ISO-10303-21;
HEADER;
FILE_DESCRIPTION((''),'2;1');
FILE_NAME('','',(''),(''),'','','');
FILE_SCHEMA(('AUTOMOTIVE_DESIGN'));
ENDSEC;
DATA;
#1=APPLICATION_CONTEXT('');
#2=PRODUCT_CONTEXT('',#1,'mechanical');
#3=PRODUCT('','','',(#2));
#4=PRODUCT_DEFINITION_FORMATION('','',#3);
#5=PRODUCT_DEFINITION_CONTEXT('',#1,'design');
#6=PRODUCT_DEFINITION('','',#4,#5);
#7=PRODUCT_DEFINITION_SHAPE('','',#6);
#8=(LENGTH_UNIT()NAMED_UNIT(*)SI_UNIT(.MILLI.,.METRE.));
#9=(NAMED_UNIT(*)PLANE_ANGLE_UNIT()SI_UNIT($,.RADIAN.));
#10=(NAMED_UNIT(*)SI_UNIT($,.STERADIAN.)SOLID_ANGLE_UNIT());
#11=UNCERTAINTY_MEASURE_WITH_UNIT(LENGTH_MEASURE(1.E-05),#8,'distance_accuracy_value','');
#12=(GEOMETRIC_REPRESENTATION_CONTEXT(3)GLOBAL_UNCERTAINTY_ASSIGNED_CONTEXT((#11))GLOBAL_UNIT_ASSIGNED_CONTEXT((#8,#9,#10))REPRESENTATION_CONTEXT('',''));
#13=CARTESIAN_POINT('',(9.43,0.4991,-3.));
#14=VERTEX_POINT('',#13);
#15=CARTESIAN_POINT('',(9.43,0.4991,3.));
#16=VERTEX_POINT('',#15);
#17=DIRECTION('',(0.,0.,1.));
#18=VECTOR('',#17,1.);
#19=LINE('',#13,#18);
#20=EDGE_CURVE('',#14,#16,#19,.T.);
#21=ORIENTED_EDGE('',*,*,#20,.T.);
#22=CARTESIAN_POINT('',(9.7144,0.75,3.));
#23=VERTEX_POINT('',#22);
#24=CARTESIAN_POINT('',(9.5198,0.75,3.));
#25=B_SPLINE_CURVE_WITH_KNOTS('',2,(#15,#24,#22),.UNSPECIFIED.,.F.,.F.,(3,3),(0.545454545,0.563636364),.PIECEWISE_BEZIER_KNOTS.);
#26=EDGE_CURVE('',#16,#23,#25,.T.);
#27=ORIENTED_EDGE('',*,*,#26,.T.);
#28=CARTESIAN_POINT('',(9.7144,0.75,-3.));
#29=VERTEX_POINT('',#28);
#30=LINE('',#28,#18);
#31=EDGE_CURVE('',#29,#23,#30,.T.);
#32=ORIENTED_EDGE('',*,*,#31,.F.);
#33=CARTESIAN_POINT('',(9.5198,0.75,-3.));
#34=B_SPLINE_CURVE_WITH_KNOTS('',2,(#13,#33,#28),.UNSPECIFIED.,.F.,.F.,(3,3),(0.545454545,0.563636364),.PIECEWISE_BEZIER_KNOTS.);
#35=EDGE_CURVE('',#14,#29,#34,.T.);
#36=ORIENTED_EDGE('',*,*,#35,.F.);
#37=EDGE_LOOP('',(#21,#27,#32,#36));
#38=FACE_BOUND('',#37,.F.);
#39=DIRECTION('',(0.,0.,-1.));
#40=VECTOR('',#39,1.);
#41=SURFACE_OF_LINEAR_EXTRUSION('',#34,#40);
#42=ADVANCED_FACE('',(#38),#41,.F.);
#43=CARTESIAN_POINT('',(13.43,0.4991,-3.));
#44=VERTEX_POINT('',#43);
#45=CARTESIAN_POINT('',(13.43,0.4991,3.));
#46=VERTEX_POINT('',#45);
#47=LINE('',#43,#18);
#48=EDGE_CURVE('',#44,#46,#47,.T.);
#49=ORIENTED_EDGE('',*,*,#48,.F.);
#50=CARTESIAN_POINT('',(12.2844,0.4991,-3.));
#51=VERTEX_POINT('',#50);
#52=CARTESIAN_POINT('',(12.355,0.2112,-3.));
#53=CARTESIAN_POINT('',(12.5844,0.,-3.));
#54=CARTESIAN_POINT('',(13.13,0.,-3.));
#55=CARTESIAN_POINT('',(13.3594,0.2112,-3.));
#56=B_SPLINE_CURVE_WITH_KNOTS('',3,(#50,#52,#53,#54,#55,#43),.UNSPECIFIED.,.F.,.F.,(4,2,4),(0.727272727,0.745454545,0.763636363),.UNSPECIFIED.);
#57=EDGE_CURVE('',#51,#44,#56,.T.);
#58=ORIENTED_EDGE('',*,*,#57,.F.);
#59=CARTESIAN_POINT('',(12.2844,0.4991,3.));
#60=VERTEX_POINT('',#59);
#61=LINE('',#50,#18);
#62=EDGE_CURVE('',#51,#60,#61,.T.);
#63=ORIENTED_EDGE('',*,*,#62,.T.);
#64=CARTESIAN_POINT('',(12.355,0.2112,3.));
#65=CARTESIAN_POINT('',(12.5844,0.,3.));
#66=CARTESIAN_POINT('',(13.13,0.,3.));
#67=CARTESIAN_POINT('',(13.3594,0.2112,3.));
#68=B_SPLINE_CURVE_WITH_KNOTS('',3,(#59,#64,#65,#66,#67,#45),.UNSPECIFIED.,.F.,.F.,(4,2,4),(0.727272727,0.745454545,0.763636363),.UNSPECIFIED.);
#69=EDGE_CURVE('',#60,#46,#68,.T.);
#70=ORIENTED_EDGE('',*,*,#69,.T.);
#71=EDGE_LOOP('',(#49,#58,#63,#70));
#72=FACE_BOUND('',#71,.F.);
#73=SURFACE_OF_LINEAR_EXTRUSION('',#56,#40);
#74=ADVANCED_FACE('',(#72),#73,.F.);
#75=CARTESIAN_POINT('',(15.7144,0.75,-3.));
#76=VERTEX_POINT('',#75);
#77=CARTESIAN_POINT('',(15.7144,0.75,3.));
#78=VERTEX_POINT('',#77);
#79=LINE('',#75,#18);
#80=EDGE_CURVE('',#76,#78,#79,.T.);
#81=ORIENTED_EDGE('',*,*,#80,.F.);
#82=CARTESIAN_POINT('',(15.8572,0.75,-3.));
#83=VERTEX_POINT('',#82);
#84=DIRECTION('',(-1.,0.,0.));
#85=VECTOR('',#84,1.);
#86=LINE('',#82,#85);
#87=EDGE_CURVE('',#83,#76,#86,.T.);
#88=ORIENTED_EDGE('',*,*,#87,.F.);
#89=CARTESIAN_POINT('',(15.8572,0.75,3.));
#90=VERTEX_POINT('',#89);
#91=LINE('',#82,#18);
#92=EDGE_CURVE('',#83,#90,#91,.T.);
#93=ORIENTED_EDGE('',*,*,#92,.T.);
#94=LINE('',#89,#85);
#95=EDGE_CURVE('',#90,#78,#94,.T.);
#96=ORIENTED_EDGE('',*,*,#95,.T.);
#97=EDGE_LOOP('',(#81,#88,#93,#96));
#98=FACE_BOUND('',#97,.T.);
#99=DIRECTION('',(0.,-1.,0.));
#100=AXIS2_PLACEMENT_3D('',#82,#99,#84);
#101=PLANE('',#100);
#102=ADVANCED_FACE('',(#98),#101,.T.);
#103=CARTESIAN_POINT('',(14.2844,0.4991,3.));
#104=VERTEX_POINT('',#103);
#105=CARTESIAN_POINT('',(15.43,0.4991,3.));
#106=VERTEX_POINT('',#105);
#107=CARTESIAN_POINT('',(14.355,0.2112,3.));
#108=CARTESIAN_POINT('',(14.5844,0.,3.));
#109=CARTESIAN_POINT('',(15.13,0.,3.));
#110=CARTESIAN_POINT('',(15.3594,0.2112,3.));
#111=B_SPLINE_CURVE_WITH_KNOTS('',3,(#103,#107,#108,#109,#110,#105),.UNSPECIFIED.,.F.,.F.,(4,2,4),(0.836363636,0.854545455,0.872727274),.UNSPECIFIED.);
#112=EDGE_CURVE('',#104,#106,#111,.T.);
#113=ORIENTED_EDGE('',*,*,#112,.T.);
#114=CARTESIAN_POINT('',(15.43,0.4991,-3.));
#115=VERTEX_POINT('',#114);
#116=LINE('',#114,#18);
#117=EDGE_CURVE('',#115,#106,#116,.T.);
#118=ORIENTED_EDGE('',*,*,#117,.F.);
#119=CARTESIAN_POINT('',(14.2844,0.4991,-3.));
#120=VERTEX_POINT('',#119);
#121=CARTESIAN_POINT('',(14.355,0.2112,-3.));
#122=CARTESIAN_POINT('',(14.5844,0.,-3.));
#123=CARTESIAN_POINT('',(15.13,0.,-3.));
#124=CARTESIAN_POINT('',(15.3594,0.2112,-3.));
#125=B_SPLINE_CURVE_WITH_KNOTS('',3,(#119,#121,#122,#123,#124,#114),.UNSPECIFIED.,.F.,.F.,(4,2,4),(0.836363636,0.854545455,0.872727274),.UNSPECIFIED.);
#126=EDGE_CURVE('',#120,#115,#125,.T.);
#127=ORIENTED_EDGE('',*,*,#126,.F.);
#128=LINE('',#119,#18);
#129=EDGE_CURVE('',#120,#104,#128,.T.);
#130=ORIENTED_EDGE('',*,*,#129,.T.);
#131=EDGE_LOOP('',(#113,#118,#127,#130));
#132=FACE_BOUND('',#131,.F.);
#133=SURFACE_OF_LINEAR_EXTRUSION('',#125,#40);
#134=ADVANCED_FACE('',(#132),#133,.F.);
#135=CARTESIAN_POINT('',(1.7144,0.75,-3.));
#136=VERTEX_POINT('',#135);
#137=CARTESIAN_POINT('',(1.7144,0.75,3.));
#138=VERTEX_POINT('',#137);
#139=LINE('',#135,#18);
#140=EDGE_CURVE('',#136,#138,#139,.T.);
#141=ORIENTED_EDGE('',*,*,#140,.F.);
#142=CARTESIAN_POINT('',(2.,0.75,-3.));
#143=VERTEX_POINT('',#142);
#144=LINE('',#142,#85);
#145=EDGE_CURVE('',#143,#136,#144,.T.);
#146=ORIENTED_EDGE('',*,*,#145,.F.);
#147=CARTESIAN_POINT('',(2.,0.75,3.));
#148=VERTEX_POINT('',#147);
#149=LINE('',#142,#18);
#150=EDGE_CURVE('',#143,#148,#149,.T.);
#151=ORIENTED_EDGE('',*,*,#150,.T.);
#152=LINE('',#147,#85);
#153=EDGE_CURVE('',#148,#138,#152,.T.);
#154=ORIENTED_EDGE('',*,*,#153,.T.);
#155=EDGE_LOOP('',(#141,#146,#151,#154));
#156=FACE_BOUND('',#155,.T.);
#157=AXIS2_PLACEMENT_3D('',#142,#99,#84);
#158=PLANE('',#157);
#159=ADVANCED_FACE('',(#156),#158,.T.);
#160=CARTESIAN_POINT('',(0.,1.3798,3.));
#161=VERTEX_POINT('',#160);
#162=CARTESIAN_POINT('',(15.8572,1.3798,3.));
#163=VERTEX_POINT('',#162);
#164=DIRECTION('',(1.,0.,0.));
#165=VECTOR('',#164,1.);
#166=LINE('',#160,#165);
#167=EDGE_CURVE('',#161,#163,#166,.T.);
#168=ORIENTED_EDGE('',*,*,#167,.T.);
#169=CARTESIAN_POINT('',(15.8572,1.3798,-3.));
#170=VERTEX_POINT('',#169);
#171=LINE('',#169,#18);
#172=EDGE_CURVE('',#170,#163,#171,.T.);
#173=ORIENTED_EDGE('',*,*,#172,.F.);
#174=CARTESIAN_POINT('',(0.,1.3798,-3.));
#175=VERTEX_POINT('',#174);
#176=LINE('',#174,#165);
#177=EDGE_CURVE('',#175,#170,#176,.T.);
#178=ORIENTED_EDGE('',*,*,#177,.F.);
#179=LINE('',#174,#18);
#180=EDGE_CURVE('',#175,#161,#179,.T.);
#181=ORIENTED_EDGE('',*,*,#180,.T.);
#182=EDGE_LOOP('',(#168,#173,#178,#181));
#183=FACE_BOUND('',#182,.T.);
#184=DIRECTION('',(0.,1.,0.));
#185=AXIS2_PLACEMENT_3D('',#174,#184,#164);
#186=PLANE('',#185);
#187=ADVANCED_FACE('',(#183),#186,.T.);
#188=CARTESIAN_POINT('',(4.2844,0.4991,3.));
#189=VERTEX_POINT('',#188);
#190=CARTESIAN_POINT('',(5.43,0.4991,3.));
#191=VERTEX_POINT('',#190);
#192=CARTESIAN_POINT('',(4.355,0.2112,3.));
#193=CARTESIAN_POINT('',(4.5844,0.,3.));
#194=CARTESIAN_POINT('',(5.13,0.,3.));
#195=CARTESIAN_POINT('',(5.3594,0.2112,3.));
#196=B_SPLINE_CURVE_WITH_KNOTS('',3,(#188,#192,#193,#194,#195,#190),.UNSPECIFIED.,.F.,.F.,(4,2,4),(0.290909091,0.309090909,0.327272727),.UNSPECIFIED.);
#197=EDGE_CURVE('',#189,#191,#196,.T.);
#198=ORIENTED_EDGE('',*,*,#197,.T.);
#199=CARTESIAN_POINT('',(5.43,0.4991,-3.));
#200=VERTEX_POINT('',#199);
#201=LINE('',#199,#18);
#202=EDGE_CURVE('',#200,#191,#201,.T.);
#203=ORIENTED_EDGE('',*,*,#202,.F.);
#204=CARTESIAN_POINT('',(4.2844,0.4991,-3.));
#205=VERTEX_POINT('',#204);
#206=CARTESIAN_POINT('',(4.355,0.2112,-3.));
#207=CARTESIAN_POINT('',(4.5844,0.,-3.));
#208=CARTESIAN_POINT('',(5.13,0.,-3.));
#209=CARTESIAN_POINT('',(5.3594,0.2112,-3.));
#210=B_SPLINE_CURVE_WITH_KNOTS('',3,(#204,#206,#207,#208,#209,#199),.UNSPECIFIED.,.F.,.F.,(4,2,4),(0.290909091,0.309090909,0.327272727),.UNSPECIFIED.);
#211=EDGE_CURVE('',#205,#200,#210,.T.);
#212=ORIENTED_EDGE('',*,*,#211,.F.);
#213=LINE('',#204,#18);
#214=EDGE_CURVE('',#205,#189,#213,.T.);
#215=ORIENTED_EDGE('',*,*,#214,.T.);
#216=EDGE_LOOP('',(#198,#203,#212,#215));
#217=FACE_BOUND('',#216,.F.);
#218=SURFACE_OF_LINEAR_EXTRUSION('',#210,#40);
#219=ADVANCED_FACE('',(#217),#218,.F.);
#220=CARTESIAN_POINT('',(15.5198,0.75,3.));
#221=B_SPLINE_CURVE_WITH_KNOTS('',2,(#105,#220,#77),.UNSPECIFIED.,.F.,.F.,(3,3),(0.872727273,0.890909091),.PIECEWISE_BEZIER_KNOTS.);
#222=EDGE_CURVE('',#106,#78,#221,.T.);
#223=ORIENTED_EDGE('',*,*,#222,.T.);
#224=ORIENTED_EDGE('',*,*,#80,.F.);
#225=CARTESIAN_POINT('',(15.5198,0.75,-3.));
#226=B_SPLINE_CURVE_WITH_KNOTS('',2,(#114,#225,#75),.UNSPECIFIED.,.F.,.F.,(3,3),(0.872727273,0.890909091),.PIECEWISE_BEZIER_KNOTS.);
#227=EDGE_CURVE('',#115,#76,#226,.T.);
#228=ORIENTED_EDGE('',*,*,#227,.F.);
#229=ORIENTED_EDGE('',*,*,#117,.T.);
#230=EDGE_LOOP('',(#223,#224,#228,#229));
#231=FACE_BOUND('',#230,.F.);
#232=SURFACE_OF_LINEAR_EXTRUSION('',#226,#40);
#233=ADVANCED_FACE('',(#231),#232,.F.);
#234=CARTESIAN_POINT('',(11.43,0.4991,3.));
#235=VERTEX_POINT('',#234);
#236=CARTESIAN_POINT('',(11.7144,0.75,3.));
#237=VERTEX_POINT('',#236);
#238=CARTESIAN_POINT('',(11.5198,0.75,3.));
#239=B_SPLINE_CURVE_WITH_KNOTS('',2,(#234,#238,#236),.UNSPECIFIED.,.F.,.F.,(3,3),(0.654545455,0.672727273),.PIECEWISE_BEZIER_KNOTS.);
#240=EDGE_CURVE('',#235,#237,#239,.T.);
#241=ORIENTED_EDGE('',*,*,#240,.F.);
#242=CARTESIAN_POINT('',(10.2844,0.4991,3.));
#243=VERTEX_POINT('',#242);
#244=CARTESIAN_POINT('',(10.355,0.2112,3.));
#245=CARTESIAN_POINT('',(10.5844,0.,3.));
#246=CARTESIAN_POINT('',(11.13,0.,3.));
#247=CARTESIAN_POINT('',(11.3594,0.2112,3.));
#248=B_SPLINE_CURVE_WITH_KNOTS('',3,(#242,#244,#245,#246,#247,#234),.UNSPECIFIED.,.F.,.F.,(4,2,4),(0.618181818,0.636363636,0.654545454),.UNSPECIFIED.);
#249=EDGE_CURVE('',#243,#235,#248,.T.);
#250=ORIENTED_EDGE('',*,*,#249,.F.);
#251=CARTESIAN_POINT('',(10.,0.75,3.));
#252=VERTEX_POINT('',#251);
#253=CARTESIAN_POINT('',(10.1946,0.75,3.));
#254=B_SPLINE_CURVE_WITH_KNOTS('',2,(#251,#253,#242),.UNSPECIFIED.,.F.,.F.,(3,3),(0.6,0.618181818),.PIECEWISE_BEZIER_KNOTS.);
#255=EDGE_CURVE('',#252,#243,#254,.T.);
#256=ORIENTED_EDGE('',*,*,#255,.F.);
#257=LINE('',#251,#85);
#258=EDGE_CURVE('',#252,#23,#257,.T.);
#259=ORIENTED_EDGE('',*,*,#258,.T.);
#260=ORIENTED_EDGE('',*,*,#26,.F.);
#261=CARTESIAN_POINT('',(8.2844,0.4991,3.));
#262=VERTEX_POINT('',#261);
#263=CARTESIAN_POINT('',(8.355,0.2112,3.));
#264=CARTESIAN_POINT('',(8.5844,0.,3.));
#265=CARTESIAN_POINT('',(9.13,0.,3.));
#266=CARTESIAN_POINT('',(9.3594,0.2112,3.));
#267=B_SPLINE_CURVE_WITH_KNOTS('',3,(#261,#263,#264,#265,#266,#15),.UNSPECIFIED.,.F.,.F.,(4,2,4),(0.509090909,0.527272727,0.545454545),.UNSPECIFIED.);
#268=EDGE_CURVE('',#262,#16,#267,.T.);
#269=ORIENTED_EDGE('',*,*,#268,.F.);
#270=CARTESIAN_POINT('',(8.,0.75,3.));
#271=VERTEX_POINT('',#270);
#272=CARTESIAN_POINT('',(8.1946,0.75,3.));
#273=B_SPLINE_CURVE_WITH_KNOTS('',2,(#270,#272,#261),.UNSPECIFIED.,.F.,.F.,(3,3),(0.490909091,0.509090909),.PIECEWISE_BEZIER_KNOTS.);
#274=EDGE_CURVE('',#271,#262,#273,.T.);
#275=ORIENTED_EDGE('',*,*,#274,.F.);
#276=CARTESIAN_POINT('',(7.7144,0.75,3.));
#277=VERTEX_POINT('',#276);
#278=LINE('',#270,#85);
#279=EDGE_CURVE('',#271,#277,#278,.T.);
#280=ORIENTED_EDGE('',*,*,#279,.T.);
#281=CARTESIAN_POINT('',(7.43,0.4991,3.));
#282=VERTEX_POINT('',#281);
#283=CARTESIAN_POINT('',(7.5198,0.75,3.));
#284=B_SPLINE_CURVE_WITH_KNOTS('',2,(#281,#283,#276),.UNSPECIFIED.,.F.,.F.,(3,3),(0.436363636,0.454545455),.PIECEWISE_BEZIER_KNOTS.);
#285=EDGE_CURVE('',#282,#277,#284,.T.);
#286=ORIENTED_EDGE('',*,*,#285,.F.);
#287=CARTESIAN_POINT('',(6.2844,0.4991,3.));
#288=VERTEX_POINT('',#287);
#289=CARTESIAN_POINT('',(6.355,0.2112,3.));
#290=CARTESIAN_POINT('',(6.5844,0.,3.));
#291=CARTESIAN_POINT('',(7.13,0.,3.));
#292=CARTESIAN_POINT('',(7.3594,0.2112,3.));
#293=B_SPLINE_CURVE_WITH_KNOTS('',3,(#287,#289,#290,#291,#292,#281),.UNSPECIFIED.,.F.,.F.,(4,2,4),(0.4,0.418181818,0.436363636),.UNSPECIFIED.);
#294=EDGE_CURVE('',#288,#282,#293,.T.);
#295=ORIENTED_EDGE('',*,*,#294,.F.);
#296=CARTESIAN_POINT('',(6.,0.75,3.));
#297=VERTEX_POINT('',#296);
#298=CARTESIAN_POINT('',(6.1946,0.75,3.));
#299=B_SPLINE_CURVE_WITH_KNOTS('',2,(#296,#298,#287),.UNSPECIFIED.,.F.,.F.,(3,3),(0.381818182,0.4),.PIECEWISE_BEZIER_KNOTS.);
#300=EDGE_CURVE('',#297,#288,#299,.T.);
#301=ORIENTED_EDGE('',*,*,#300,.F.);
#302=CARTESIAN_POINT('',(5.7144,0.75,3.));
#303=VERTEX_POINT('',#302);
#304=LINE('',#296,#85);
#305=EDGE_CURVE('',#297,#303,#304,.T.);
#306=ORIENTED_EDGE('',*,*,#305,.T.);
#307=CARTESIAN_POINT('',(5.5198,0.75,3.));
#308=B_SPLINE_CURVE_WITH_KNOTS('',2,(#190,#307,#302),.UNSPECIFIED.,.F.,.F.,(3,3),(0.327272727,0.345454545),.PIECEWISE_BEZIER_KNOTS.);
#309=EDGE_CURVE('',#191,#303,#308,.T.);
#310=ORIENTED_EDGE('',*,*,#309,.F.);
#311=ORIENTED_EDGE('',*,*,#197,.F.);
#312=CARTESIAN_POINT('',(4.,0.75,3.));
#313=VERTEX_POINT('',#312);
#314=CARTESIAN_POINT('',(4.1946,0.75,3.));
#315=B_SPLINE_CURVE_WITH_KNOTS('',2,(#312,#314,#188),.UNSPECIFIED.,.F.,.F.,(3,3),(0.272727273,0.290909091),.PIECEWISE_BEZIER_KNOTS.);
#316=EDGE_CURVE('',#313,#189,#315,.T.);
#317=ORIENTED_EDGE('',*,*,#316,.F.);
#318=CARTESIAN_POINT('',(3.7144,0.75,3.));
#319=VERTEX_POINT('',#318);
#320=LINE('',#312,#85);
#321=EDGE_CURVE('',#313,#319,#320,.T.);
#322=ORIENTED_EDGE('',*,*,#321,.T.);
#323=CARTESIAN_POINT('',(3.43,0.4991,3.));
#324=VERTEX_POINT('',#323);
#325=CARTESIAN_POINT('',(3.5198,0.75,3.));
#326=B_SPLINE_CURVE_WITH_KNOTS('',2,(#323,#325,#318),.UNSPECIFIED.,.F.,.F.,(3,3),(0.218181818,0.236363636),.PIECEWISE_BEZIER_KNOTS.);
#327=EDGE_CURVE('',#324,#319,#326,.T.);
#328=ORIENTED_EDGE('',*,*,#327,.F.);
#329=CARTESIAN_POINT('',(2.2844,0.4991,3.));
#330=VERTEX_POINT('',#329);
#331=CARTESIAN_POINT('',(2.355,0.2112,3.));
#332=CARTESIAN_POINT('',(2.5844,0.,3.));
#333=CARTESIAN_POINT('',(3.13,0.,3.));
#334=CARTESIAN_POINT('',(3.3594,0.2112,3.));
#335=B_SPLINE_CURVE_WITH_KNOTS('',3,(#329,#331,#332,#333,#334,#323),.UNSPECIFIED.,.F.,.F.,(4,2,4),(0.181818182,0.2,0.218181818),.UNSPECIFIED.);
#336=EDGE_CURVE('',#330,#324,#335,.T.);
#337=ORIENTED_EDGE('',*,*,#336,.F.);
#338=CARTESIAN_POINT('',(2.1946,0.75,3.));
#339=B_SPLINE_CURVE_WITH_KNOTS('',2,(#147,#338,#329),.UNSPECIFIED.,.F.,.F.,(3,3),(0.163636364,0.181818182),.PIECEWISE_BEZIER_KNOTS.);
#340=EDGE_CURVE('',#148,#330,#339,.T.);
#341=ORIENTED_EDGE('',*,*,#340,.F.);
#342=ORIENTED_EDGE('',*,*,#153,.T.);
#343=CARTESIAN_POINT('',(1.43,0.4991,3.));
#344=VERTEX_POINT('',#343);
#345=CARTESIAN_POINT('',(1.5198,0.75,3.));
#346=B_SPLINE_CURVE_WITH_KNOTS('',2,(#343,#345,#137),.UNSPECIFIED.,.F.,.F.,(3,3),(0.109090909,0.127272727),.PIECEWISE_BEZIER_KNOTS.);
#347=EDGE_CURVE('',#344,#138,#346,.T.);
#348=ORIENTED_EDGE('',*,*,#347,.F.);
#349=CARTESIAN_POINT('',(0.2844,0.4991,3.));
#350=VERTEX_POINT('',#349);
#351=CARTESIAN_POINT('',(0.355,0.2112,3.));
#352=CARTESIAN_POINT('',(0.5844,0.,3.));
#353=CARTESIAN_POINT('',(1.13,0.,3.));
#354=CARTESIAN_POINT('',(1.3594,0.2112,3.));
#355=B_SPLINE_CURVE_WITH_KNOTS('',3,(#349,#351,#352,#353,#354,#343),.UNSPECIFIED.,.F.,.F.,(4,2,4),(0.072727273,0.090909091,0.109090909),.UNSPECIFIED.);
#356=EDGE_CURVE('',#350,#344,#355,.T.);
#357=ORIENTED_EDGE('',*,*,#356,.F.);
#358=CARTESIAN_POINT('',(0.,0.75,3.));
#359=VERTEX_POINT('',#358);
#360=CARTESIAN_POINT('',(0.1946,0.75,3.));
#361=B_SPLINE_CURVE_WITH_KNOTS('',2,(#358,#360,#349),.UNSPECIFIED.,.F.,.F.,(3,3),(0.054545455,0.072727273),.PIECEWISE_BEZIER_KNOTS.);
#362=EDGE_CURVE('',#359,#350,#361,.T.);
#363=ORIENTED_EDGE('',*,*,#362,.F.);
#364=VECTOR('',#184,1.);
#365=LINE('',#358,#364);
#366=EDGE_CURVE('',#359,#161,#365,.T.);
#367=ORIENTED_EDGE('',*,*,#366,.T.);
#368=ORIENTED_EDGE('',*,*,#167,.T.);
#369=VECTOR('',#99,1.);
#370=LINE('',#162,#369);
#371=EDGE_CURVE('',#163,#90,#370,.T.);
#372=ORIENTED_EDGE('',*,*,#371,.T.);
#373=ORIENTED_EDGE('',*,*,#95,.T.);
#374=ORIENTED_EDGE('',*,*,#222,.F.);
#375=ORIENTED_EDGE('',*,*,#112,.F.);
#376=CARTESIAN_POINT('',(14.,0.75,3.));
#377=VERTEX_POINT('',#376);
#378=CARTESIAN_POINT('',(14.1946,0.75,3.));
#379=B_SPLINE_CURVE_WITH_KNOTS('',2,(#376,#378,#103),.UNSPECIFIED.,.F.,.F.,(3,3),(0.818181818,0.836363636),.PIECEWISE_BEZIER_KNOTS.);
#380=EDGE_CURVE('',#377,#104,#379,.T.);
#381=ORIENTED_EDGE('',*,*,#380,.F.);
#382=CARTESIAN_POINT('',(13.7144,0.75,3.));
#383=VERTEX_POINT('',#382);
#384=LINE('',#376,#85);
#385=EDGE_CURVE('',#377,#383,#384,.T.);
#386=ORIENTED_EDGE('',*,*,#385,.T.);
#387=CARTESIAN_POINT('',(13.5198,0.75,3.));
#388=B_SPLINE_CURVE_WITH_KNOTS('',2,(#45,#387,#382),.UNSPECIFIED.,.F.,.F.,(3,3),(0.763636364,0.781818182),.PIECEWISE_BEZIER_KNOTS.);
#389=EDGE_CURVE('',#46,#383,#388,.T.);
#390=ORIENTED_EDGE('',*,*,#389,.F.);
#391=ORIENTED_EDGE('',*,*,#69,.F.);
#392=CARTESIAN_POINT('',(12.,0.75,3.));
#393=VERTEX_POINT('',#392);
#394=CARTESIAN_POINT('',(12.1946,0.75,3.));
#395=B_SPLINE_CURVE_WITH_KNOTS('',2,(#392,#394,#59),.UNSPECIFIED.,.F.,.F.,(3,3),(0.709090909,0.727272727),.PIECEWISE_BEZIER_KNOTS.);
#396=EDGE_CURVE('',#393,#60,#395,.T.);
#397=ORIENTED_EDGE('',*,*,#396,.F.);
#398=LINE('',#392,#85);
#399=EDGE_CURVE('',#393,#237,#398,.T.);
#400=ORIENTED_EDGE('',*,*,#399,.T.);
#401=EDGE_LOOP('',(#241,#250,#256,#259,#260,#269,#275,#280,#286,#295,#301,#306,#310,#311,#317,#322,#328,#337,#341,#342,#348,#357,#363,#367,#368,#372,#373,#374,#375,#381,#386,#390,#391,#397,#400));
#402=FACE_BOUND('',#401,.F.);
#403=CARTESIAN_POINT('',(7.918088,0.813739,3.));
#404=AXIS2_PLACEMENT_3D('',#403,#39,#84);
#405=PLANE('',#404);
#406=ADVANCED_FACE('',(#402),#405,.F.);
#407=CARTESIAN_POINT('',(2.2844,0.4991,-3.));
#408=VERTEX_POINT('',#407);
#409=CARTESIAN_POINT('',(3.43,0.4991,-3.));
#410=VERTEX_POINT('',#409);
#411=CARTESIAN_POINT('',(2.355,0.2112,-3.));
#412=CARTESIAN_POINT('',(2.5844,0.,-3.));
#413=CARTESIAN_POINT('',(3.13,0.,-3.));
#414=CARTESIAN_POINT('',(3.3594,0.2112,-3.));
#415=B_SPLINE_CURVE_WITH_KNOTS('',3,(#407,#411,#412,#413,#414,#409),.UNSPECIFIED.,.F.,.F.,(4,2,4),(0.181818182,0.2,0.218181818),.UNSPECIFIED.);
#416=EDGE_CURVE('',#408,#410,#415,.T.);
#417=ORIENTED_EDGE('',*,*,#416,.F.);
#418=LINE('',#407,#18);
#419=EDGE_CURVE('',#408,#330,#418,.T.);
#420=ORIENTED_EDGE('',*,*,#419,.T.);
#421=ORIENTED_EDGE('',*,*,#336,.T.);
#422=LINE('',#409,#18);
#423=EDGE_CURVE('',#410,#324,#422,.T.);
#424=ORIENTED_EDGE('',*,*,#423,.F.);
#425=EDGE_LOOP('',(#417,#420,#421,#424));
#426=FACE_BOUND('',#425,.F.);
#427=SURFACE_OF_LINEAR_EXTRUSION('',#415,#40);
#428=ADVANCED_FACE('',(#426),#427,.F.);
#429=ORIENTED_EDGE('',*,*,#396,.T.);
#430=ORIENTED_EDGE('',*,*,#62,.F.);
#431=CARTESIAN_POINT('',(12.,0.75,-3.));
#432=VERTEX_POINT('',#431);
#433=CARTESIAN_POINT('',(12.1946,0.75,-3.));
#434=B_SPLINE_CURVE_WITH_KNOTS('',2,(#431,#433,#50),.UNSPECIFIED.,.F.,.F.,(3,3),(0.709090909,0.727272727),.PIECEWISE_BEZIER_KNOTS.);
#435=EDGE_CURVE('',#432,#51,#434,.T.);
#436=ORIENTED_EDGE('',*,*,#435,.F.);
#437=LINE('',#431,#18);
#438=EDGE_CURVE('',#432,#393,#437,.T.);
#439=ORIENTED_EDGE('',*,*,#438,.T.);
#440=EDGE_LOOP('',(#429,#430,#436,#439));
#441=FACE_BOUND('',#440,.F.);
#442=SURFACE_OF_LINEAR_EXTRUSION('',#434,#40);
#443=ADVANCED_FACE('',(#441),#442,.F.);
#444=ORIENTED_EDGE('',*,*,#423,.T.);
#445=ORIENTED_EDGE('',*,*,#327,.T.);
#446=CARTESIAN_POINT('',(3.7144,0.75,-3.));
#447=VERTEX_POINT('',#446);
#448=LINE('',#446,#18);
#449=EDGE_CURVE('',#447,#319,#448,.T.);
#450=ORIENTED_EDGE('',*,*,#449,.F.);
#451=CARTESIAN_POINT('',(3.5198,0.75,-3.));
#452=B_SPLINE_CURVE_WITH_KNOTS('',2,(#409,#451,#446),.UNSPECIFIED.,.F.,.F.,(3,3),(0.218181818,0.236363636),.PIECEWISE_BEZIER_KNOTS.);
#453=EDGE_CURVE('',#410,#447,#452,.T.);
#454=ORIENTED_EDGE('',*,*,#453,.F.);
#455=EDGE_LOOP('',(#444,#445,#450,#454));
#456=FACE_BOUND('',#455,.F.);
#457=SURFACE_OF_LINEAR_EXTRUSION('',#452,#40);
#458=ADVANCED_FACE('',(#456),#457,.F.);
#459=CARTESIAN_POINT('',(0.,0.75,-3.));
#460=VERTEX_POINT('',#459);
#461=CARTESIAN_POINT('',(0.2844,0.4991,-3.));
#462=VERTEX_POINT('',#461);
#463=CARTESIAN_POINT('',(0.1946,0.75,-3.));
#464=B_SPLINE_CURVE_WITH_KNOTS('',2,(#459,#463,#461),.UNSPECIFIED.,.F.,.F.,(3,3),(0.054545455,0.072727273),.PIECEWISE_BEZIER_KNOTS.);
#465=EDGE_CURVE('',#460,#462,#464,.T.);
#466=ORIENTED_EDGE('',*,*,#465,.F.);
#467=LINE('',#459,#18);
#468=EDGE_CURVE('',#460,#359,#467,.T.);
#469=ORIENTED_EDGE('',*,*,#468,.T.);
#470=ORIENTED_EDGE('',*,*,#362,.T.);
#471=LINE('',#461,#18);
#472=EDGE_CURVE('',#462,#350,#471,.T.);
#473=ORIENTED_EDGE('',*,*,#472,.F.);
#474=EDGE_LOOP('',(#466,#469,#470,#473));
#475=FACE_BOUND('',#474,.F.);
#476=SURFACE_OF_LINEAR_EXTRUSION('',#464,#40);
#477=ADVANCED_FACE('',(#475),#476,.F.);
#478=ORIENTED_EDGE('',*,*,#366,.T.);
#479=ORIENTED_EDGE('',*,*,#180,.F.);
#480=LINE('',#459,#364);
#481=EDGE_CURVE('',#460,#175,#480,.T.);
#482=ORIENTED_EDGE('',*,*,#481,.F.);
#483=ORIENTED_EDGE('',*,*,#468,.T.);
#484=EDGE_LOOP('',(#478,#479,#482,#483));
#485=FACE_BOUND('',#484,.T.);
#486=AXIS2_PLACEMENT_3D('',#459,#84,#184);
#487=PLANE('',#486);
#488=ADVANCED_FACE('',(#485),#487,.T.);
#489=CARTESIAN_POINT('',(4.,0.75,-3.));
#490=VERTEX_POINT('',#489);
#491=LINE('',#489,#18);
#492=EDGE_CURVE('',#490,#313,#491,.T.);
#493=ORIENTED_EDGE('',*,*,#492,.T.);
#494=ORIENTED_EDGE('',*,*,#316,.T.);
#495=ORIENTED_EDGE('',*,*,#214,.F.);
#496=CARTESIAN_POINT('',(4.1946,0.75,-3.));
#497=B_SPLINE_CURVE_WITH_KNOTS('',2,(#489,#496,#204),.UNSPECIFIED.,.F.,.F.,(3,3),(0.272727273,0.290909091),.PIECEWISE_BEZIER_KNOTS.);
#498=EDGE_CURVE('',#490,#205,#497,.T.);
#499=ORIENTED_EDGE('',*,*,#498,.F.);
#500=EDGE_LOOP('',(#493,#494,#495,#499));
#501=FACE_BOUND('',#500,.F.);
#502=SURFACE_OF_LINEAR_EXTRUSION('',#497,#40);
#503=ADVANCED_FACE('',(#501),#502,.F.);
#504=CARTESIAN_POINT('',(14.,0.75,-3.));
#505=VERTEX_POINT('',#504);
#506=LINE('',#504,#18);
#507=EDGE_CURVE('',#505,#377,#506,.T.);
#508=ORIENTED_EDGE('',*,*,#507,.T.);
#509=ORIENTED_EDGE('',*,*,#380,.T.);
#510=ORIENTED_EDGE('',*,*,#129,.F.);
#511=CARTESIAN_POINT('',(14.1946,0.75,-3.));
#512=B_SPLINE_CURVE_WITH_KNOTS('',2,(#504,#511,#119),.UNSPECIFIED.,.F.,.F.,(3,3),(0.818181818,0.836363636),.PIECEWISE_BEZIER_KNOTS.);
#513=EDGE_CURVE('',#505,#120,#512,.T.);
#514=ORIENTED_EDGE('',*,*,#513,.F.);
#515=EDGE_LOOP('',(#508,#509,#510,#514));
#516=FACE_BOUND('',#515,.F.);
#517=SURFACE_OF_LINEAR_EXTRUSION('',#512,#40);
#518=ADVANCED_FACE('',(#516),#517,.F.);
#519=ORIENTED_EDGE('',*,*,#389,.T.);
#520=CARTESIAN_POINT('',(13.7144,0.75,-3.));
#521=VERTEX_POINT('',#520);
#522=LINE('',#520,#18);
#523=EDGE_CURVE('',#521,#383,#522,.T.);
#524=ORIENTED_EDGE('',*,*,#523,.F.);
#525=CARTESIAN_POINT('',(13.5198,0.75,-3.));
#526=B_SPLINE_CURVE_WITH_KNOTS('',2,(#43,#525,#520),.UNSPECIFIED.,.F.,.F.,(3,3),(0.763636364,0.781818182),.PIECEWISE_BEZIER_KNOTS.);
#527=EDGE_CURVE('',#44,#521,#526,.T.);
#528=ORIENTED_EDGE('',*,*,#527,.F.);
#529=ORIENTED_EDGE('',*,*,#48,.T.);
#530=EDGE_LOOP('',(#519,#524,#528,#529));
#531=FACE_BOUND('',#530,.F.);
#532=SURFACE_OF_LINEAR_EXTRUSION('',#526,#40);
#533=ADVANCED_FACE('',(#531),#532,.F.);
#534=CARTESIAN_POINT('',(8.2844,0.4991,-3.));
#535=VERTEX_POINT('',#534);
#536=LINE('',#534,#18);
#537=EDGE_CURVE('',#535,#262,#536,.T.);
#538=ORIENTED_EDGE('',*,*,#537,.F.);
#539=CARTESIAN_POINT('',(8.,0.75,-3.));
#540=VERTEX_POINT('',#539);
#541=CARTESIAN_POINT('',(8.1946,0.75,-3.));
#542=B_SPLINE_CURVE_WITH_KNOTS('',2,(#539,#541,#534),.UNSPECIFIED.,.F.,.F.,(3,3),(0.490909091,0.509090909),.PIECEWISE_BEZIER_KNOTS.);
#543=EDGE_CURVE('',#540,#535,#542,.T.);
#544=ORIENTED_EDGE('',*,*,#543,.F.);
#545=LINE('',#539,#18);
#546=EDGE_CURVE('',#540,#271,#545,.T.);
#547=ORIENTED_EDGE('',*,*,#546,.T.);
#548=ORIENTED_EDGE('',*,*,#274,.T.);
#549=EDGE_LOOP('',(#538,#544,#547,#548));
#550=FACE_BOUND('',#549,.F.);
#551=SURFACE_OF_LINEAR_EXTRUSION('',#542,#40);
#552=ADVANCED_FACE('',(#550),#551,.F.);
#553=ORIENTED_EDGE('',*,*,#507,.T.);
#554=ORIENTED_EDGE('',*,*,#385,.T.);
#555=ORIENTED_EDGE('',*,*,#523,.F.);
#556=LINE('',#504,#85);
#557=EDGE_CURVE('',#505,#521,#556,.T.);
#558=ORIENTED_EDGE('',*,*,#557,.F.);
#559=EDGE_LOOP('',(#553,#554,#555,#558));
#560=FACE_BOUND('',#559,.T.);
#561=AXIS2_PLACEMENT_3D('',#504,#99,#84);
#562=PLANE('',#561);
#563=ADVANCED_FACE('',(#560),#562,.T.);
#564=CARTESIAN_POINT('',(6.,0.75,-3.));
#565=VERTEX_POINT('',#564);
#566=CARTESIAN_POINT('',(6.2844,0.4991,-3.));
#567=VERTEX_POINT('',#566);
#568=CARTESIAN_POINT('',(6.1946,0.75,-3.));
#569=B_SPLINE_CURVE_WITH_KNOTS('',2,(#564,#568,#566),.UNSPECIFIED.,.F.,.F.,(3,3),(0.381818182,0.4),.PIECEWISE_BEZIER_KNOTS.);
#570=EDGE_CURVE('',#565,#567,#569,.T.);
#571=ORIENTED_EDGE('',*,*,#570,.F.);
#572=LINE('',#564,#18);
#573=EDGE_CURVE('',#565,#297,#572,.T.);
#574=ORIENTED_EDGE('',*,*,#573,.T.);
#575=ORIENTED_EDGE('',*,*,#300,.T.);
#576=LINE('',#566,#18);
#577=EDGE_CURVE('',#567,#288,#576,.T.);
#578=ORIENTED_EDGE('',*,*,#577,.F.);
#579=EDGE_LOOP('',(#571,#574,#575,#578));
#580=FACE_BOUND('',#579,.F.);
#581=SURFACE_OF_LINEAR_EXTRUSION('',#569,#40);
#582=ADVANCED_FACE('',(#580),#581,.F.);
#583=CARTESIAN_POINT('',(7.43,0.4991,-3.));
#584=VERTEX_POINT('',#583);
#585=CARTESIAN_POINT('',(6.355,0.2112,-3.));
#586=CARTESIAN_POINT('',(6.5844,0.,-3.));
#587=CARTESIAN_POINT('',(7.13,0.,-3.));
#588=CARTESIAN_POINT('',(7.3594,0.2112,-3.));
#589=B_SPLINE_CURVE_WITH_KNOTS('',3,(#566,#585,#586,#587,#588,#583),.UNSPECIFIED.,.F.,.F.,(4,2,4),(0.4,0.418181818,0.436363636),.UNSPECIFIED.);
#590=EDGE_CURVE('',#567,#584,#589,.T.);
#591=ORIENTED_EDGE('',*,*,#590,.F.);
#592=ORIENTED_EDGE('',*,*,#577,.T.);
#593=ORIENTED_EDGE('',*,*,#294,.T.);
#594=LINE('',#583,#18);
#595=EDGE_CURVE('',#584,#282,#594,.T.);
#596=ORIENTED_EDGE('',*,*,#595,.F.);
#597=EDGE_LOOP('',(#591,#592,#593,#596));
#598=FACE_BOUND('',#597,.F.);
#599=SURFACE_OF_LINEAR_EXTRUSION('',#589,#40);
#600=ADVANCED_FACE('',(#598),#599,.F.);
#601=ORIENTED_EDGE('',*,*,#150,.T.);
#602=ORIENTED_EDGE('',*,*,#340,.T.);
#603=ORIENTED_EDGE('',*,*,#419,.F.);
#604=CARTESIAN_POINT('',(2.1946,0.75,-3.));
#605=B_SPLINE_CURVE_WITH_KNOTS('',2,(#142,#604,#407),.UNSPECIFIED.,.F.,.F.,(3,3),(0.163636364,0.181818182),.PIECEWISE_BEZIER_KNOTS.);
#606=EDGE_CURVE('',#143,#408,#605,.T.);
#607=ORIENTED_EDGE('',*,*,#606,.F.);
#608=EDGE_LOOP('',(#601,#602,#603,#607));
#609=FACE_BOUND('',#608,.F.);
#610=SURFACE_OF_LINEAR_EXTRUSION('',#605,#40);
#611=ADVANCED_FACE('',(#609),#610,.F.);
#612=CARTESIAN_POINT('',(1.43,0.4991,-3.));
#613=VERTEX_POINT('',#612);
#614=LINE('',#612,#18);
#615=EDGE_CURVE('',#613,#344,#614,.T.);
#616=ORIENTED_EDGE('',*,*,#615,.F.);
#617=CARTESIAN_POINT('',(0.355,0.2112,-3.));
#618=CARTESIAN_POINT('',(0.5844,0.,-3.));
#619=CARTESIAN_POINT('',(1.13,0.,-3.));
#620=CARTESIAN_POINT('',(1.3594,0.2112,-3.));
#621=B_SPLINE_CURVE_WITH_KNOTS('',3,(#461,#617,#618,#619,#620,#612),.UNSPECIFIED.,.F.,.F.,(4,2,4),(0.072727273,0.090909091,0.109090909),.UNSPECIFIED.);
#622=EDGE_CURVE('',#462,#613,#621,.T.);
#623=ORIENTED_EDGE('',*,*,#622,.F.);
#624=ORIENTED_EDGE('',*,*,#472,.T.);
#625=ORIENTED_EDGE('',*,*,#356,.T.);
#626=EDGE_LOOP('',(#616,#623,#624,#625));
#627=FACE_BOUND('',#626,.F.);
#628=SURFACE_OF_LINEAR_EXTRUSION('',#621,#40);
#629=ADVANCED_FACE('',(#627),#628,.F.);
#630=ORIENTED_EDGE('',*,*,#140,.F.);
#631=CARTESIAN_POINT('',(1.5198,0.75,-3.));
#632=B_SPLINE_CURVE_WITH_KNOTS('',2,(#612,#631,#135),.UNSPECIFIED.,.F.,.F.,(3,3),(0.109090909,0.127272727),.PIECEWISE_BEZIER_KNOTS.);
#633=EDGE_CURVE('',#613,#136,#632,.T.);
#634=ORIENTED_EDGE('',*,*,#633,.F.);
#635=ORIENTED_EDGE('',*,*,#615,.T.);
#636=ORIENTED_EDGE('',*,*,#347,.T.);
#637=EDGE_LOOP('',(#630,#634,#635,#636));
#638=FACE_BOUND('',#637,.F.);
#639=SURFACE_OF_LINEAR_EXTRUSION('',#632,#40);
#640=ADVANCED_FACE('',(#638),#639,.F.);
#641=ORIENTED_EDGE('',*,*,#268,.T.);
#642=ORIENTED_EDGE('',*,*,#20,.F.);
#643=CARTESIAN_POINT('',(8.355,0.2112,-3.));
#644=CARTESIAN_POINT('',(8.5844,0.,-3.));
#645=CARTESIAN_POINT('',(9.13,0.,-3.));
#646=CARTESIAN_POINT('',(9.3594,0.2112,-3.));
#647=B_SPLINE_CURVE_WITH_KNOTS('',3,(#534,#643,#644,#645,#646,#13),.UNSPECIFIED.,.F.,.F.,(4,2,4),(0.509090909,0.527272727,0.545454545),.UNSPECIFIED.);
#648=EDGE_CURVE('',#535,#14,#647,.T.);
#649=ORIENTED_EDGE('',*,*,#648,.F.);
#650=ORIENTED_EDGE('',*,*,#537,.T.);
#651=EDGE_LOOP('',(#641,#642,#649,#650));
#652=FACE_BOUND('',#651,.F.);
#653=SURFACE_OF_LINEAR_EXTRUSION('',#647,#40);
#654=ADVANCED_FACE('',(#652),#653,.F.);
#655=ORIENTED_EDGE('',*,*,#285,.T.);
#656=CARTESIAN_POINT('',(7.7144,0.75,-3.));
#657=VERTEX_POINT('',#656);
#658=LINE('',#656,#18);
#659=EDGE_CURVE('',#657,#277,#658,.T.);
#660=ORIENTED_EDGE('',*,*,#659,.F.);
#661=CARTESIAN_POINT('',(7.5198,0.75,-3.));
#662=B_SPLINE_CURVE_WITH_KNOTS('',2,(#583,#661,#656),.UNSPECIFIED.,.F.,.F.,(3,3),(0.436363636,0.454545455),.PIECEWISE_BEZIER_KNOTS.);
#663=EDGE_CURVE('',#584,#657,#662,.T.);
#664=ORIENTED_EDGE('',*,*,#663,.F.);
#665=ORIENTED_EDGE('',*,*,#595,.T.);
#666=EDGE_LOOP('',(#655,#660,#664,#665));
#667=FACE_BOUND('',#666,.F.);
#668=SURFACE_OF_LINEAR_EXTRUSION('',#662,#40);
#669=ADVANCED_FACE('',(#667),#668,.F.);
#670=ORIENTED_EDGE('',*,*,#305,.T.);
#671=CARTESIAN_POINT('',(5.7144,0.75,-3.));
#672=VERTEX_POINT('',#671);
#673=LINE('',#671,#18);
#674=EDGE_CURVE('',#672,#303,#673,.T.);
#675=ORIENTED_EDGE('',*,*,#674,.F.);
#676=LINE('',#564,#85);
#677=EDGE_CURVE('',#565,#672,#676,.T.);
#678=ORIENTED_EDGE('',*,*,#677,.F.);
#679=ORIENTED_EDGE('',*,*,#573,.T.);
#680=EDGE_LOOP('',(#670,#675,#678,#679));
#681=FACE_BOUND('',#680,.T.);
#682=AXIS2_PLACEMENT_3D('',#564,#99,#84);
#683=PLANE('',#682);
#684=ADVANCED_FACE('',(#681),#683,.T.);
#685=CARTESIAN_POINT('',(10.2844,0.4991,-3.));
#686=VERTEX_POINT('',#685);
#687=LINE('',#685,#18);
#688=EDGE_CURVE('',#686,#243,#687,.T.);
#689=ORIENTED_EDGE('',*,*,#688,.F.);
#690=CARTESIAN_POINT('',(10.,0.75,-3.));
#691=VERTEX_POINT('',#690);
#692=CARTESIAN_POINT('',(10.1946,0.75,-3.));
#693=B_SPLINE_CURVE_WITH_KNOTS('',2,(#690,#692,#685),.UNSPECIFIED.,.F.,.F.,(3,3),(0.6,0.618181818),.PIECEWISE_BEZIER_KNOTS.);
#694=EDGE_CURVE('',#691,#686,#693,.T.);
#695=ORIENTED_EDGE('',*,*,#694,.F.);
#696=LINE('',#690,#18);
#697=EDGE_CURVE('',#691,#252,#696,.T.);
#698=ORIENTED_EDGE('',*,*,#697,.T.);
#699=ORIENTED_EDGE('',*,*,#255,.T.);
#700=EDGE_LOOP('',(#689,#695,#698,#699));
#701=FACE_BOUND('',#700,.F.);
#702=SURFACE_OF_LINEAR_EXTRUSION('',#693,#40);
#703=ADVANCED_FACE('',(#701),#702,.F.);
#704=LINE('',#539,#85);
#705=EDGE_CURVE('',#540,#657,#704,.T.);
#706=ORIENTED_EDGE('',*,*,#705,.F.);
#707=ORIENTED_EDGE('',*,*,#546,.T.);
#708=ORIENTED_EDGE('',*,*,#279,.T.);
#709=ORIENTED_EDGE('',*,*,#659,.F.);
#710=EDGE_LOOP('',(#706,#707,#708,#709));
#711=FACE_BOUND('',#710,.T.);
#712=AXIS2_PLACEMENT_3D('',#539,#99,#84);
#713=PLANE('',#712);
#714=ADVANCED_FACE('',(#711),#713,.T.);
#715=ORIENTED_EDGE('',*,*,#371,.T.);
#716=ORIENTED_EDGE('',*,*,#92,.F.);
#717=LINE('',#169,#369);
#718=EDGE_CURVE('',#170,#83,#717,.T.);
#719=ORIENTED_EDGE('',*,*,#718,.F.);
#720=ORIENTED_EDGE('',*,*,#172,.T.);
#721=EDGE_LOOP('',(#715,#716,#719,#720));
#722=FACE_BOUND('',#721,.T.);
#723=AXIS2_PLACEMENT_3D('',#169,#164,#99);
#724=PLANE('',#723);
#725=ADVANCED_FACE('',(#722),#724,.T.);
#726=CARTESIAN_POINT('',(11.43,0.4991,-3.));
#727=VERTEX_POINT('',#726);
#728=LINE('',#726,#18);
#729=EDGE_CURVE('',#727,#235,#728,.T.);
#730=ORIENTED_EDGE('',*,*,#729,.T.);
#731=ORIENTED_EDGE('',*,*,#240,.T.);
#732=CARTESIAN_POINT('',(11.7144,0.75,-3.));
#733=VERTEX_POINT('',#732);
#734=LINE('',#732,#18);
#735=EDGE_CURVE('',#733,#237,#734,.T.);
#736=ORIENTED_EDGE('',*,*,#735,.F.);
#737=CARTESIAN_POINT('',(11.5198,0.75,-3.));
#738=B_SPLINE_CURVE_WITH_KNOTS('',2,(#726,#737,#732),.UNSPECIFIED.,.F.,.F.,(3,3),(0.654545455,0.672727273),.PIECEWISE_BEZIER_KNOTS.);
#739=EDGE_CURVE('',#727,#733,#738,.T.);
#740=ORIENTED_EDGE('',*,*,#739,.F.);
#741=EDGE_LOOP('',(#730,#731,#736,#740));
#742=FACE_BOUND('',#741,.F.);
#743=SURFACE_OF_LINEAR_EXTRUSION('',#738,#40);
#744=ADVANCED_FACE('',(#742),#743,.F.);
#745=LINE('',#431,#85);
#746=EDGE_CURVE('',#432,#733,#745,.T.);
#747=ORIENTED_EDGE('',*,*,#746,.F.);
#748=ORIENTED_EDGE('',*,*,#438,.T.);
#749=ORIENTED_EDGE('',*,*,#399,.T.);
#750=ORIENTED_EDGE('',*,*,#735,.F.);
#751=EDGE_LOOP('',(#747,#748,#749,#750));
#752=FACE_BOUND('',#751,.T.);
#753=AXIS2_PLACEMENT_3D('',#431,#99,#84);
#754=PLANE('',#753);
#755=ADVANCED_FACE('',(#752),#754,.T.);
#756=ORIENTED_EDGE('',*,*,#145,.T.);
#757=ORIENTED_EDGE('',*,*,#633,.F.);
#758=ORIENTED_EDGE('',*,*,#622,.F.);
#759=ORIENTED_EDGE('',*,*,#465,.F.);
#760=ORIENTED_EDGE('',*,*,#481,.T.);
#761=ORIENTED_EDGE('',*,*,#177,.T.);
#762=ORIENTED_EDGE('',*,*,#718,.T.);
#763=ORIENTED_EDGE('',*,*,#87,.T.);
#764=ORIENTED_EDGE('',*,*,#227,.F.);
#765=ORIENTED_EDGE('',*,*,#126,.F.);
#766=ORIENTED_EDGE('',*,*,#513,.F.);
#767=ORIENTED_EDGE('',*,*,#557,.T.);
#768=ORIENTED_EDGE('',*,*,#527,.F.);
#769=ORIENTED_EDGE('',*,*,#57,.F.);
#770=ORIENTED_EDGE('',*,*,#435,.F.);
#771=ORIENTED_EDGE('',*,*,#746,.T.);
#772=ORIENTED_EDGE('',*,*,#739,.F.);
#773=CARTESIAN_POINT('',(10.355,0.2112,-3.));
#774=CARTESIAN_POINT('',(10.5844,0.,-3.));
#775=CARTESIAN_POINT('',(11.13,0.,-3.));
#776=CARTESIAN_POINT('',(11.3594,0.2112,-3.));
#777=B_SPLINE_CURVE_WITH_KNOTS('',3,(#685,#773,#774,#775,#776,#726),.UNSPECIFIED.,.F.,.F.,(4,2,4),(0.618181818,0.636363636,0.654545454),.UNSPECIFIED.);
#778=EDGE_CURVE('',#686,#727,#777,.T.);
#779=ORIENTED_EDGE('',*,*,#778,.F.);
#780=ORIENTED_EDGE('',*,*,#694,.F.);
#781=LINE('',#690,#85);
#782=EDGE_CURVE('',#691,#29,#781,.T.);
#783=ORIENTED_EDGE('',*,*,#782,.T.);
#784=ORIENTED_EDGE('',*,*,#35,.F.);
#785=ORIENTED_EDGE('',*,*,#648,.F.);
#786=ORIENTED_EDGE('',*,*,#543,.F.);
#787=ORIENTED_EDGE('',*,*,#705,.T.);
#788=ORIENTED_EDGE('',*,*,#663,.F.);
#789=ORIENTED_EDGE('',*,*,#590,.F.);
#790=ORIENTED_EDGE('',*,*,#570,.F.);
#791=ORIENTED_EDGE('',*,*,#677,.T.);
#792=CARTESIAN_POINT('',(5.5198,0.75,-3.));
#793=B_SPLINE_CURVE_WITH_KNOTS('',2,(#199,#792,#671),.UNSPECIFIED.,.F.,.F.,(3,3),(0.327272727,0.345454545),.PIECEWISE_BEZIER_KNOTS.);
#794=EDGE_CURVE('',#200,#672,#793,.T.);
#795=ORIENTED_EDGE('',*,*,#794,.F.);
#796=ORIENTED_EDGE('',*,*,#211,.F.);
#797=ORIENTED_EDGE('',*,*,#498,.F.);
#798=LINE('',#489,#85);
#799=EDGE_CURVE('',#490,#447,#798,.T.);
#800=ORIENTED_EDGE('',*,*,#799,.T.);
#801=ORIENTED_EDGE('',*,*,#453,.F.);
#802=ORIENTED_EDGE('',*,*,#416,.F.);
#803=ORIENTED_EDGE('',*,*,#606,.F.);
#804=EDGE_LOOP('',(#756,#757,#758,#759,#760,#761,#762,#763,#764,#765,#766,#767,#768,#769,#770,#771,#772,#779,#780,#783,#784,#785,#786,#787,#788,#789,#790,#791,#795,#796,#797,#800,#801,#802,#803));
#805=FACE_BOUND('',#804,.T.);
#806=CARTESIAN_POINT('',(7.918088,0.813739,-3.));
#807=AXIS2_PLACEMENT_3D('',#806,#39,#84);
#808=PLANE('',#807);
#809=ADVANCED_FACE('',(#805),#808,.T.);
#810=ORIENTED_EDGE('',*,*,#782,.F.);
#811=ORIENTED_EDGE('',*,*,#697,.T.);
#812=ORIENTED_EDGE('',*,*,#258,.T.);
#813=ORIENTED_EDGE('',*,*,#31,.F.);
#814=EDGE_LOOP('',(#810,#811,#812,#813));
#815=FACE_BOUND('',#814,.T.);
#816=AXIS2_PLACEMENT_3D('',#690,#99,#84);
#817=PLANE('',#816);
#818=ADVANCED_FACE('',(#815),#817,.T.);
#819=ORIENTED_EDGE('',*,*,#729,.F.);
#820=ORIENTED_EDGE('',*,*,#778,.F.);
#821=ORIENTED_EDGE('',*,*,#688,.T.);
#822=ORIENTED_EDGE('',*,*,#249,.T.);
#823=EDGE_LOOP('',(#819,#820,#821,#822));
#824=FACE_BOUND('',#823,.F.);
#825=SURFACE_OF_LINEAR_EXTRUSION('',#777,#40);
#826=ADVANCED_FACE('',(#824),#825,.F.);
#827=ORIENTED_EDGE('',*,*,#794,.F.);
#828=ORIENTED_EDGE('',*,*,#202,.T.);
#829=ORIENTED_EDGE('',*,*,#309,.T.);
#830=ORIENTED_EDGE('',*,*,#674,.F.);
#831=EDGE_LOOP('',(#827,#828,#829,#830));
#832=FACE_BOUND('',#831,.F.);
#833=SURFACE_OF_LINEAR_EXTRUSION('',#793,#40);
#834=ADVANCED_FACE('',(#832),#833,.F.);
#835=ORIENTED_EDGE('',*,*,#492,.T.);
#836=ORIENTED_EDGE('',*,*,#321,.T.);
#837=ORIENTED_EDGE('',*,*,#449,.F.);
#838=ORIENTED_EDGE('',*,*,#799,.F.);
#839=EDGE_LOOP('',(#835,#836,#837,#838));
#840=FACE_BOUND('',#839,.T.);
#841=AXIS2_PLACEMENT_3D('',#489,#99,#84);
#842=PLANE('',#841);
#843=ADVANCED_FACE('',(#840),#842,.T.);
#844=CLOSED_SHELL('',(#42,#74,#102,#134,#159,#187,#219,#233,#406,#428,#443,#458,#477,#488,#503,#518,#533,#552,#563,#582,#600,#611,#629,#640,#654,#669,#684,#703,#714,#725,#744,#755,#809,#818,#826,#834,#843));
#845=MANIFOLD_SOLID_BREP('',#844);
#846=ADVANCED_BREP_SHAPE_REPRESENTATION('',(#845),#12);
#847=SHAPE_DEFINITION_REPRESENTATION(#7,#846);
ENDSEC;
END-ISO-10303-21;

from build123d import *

# Parameters (mm, degrees)
BOSS_EXTRUDE1_DEPTH      = 3
BOSS_EXTRUDE1_DEPTH_BACK = 3


with BuildPart() as part:
    # Sketch1 → Boss-Extrude1 (new, two sides: drawn at the far end of the back side and taken through both)
    with BuildSketch(Plane.XY.offset(-BOSS_EXTRUDE1_DEPTH_BACK)):
        with BuildLine():
            Line((0, 0.75), (0, 1.3798))
            Line((0, 1.3798), (3.8572, 1.3798))
            Line((3.8572, 1.3798), (7.8572, 1.3798))
            Line((7.8572, 1.3798), (11.8572, 1.3798))
            Line((11.8572, 1.3798), (15.8572, 1.3798))
            Line((15.8572, 1.3798), (15.8572, 0.75))
            Line((15.8572, 0.75), (15.7144, 0.75))
            add(Edge.make_bspline(
                [(15.43, 0.4991), (15.5198, 0.75), (15.7144, 0.75)],
                knots=[0.872727273, 0.872727273, 0.872727273, 0.890909091, 0.890909091, 0.890909091], degree=2))
            add(Edge.make_bspline(
                [(14.8572, 0), (15.13, 0), (15.3594, 0.2112), (15.43, 0.4991)],
                knots=[0.854545455, 0.854545455, 0.854545455, 0.854545455, 0.872727273, 0.872727273, 0.872727273, 0.872727273], degree=3))
            add(Edge.make_bspline(
                [(14.2844, 0.4991), (14.355, 0.2112), (14.5844, 0), (14.8572, 0)],
                knots=[0.836363636, 0.836363636, 0.836363636, 0.836363636, 0.854545455, 0.854545455, 0.854545455, 0.854545455], degree=3))
            add(Edge.make_bspline(
                [(14, 0.75), (14.1946, 0.75), (14.2844, 0.4991)],
                knots=[0.818181818, 0.818181818, 0.818181818, 0.836363636, 0.836363636, 0.836363636], degree=2))
            Line((14, 0.75), (13.8572, 0.75))
            Line((13.8572, 0.75), (13.7144, 0.75))
            add(Edge.make_bspline(
                [(13.43, 0.4991), (13.5198, 0.75), (13.7144, 0.75)],
                knots=[0.763636364, 0.763636364, 0.763636364, 0.781818182, 0.781818182, 0.781818182], degree=2))
            add(Edge.make_bspline(
                [(12.8572, 0), (13.13, 0), (13.3594, 0.2112), (13.43, 0.4991)],
                knots=[0.745454545, 0.745454545, 0.745454545, 0.745454545, 0.763636364, 0.763636364, 0.763636364, 0.763636364], degree=3))
            add(Edge.make_bspline(
                [(12.2844, 0.4991), (12.355, 0.2112), (12.5844, 0), (12.8572, 0)],
                knots=[0.727272727, 0.727272727, 0.727272727, 0.727272727, 0.745454545, 0.745454545, 0.745454545, 0.745454545], degree=3))
            add(Edge.make_bspline(
                [(12, 0.75), (12.1946, 0.75), (12.2844, 0.4991)],
                knots=[0.709090909, 0.709090909, 0.709090909, 0.727272727, 0.727272727, 0.727272727], degree=2))
            Line((12, 0.75), (11.8572, 0.75))
            Line((11.8572, 0.75), (11.7144, 0.75))
            add(Edge.make_bspline(
                [(11.43, 0.4991), (11.5198, 0.75), (11.7144, 0.75)],
                knots=[0.654545455, 0.654545455, 0.654545455, 0.672727273, 0.672727273, 0.672727273], degree=2))
            add(Edge.make_bspline(
                [(10.8572, 0), (11.13, 0), (11.3594, 0.2112), (11.43, 0.4991)],
                knots=[0.636363636, 0.636363636, 0.636363636, 0.636363636, 0.654545455, 0.654545455, 0.654545455, 0.654545455], degree=3))
            add(Edge.make_bspline(
                [(10.2844, 0.4991), (10.355, 0.2112), (10.5844, 0), (10.8572, 0)],
                knots=[0.618181818, 0.618181818, 0.618181818, 0.618181818, 0.636363636, 0.636363636, 0.636363636, 0.636363636], degree=3))
            add(Edge.make_bspline(
                [(10, 0.75), (10.1946, 0.75), (10.2844, 0.4991)],
                knots=[0.6, 0.6, 0.6, 0.618181818, 0.618181818, 0.618181818], degree=2))
            Line((10, 0.75), (9.8572, 0.75))
            Line((9.8572, 0.75), (9.7144, 0.75))
            add(Edge.make_bspline(
                [(9.43, 0.4991), (9.5198, 0.75), (9.7144, 0.75)],
                knots=[0.545454545, 0.545454545, 0.545454545, 0.563636364, 0.563636364, 0.563636364], degree=2))
            add(Edge.make_bspline(
                [(8.8572, 0), (9.13, 0), (9.3594, 0.2112), (9.43, 0.4991)],
                knots=[0.527272727, 0.527272727, 0.527272727, 0.527272727, 0.545454545, 0.545454545, 0.545454545, 0.545454545], degree=3))
            add(Edge.make_bspline(
                [(8.2844, 0.4991), (8.355, 0.2112), (8.5844, 0), (8.8572, 0)],
                knots=[0.509090909, 0.509090909, 0.509090909, 0.509090909, 0.527272727, 0.527272727, 0.527272727, 0.527272727], degree=3))
            add(Edge.make_bspline(
                [(8, 0.75), (8.1946, 0.75), (8.2844, 0.4991)],
                knots=[0.490909091, 0.490909091, 0.490909091, 0.509090909, 0.509090909, 0.509090909], degree=2))
            Line((8, 0.75), (7.8572, 0.75))
            Line((7.8572, 0.75), (7.7144, 0.75))
            add(Edge.make_bspline(
                [(7.43, 0.4991), (7.5198, 0.75), (7.7144, 0.75)],
                knots=[0.436363636, 0.436363636, 0.436363636, 0.454545455, 0.454545455, 0.454545455], degree=2))
            add(Edge.make_bspline(
                [(6.8572, 0), (7.13, 0), (7.3594, 0.2112), (7.43, 0.4991)],
                knots=[0.418181818, 0.418181818, 0.418181818, 0.418181818, 0.436363636, 0.436363636, 0.436363636, 0.436363636], degree=3))
            add(Edge.make_bspline(
                [(6.2844, 0.4991), (6.355, 0.2112), (6.5844, 0), (6.8572, 0)],
                knots=[0.4, 0.4, 0.4, 0.4, 0.418181818, 0.418181818, 0.418181818, 0.418181818], degree=3))
            add(Edge.make_bspline(
                [(6, 0.75), (6.1946, 0.75), (6.2844, 0.4991)],
                knots=[0.381818182, 0.381818182, 0.381818182, 0.4, 0.4, 0.4], degree=2))
            Line((6, 0.75), (5.8572, 0.75))
            Line((5.8572, 0.75), (5.7144, 0.75))
            add(Edge.make_bspline(
                [(5.43, 0.4991), (5.5198, 0.75), (5.7144, 0.75)],
                knots=[0.327272727, 0.327272727, 0.327272727, 0.345454545, 0.345454545, 0.345454545], degree=2))
            add(Edge.make_bspline(
                [(4.8572, 0), (5.13, 0), (5.3594, 0.2112), (5.43, 0.4991)],
                knots=[0.309090909, 0.309090909, 0.309090909, 0.309090909, 0.327272727, 0.327272727, 0.327272727, 0.327272727], degree=3))
            add(Edge.make_bspline(
                [(4.2844, 0.4991), (4.355, 0.2112), (4.5844, 0), (4.8572, 0)],
                knots=[0.290909091, 0.290909091, 0.290909091, 0.290909091, 0.309090909, 0.309090909, 0.309090909, 0.309090909], degree=3))
            add(Edge.make_bspline(
                [(4, 0.75), (4.1946, 0.75), (4.2844, 0.4991)],
                knots=[0.272727273, 0.272727273, 0.272727273, 0.290909091, 0.290909091, 0.290909091], degree=2))
            Line((4, 0.75), (3.8572, 0.75))
            Line((3.8572, 0.75), (3.7144, 0.75))
            add(Edge.make_bspline(
                [(3.43, 0.4991), (3.5198, 0.75), (3.7144, 0.75)],
                knots=[0.218181818, 0.218181818, 0.218181818, 0.236363636, 0.236363636, 0.236363636], degree=2))
            add(Edge.make_bspline(
                [(2.8572, 0), (3.13, 0), (3.3594, 0.2112), (3.43, 0.4991)],
                knots=[0.2, 0.2, 0.2, 0.2, 0.218181818, 0.218181818, 0.218181818, 0.218181818], degree=3))
            add(Edge.make_bspline(
                [(2.2844, 0.4991), (2.355, 0.2112), (2.5844, 0), (2.8572, 0)],
                knots=[0.181818182, 0.181818182, 0.181818182, 0.181818182, 0.2, 0.2, 0.2, 0.2], degree=3))
            add(Edge.make_bspline(
                [(2, 0.75), (2.1946, 0.75), (2.2844, 0.4991)],
                knots=[0.163636364, 0.163636364, 0.163636364, 0.181818182, 0.181818182, 0.181818182], degree=2))
            Line((2, 0.75), (1.8572, 0.75))
            Line((1.8572, 0.75), (1.7144, 0.75))
            add(Edge.make_bspline(
                [(1.43, 0.4991), (1.5198, 0.75), (1.7144, 0.75)],
                knots=[0.109090909, 0.109090909, 0.109090909, 0.127272727, 0.127272727, 0.127272727], degree=2))
            add(Edge.make_bspline(
                [(0.8572, 0), (1.13, 0), (1.3594, 0.2112), (1.43, 0.4991)],
                knots=[0.090909091, 0.090909091, 0.090909091, 0.090909091, 0.109090909, 0.109090909, 0.109090909, 0.109090909], degree=3))
            add(Edge.make_bspline(
                [(0.2844, 0.4991), (0.355, 0.2112), (0.5844, 0), (0.8572, 0)],
                knots=[0.072727273, 0.072727273, 0.072727273, 0.072727273, 0.090909091, 0.090909091, 0.090909091, 0.090909091], degree=3))
            add(Edge.make_bspline(
                [(0, 0.75), (0.1946, 0.75), (0.2844, 0.4991)],
                knots=[0.054545455, 0.054545455, 0.054545455, 0.072727273, 0.072727273, 0.072727273], degree=2))
        make_face()
    extrude(amount=BOSS_EXTRUDE1_DEPTH + BOSS_EXTRUDE1_DEPTH_BACK)


solid = part.part
